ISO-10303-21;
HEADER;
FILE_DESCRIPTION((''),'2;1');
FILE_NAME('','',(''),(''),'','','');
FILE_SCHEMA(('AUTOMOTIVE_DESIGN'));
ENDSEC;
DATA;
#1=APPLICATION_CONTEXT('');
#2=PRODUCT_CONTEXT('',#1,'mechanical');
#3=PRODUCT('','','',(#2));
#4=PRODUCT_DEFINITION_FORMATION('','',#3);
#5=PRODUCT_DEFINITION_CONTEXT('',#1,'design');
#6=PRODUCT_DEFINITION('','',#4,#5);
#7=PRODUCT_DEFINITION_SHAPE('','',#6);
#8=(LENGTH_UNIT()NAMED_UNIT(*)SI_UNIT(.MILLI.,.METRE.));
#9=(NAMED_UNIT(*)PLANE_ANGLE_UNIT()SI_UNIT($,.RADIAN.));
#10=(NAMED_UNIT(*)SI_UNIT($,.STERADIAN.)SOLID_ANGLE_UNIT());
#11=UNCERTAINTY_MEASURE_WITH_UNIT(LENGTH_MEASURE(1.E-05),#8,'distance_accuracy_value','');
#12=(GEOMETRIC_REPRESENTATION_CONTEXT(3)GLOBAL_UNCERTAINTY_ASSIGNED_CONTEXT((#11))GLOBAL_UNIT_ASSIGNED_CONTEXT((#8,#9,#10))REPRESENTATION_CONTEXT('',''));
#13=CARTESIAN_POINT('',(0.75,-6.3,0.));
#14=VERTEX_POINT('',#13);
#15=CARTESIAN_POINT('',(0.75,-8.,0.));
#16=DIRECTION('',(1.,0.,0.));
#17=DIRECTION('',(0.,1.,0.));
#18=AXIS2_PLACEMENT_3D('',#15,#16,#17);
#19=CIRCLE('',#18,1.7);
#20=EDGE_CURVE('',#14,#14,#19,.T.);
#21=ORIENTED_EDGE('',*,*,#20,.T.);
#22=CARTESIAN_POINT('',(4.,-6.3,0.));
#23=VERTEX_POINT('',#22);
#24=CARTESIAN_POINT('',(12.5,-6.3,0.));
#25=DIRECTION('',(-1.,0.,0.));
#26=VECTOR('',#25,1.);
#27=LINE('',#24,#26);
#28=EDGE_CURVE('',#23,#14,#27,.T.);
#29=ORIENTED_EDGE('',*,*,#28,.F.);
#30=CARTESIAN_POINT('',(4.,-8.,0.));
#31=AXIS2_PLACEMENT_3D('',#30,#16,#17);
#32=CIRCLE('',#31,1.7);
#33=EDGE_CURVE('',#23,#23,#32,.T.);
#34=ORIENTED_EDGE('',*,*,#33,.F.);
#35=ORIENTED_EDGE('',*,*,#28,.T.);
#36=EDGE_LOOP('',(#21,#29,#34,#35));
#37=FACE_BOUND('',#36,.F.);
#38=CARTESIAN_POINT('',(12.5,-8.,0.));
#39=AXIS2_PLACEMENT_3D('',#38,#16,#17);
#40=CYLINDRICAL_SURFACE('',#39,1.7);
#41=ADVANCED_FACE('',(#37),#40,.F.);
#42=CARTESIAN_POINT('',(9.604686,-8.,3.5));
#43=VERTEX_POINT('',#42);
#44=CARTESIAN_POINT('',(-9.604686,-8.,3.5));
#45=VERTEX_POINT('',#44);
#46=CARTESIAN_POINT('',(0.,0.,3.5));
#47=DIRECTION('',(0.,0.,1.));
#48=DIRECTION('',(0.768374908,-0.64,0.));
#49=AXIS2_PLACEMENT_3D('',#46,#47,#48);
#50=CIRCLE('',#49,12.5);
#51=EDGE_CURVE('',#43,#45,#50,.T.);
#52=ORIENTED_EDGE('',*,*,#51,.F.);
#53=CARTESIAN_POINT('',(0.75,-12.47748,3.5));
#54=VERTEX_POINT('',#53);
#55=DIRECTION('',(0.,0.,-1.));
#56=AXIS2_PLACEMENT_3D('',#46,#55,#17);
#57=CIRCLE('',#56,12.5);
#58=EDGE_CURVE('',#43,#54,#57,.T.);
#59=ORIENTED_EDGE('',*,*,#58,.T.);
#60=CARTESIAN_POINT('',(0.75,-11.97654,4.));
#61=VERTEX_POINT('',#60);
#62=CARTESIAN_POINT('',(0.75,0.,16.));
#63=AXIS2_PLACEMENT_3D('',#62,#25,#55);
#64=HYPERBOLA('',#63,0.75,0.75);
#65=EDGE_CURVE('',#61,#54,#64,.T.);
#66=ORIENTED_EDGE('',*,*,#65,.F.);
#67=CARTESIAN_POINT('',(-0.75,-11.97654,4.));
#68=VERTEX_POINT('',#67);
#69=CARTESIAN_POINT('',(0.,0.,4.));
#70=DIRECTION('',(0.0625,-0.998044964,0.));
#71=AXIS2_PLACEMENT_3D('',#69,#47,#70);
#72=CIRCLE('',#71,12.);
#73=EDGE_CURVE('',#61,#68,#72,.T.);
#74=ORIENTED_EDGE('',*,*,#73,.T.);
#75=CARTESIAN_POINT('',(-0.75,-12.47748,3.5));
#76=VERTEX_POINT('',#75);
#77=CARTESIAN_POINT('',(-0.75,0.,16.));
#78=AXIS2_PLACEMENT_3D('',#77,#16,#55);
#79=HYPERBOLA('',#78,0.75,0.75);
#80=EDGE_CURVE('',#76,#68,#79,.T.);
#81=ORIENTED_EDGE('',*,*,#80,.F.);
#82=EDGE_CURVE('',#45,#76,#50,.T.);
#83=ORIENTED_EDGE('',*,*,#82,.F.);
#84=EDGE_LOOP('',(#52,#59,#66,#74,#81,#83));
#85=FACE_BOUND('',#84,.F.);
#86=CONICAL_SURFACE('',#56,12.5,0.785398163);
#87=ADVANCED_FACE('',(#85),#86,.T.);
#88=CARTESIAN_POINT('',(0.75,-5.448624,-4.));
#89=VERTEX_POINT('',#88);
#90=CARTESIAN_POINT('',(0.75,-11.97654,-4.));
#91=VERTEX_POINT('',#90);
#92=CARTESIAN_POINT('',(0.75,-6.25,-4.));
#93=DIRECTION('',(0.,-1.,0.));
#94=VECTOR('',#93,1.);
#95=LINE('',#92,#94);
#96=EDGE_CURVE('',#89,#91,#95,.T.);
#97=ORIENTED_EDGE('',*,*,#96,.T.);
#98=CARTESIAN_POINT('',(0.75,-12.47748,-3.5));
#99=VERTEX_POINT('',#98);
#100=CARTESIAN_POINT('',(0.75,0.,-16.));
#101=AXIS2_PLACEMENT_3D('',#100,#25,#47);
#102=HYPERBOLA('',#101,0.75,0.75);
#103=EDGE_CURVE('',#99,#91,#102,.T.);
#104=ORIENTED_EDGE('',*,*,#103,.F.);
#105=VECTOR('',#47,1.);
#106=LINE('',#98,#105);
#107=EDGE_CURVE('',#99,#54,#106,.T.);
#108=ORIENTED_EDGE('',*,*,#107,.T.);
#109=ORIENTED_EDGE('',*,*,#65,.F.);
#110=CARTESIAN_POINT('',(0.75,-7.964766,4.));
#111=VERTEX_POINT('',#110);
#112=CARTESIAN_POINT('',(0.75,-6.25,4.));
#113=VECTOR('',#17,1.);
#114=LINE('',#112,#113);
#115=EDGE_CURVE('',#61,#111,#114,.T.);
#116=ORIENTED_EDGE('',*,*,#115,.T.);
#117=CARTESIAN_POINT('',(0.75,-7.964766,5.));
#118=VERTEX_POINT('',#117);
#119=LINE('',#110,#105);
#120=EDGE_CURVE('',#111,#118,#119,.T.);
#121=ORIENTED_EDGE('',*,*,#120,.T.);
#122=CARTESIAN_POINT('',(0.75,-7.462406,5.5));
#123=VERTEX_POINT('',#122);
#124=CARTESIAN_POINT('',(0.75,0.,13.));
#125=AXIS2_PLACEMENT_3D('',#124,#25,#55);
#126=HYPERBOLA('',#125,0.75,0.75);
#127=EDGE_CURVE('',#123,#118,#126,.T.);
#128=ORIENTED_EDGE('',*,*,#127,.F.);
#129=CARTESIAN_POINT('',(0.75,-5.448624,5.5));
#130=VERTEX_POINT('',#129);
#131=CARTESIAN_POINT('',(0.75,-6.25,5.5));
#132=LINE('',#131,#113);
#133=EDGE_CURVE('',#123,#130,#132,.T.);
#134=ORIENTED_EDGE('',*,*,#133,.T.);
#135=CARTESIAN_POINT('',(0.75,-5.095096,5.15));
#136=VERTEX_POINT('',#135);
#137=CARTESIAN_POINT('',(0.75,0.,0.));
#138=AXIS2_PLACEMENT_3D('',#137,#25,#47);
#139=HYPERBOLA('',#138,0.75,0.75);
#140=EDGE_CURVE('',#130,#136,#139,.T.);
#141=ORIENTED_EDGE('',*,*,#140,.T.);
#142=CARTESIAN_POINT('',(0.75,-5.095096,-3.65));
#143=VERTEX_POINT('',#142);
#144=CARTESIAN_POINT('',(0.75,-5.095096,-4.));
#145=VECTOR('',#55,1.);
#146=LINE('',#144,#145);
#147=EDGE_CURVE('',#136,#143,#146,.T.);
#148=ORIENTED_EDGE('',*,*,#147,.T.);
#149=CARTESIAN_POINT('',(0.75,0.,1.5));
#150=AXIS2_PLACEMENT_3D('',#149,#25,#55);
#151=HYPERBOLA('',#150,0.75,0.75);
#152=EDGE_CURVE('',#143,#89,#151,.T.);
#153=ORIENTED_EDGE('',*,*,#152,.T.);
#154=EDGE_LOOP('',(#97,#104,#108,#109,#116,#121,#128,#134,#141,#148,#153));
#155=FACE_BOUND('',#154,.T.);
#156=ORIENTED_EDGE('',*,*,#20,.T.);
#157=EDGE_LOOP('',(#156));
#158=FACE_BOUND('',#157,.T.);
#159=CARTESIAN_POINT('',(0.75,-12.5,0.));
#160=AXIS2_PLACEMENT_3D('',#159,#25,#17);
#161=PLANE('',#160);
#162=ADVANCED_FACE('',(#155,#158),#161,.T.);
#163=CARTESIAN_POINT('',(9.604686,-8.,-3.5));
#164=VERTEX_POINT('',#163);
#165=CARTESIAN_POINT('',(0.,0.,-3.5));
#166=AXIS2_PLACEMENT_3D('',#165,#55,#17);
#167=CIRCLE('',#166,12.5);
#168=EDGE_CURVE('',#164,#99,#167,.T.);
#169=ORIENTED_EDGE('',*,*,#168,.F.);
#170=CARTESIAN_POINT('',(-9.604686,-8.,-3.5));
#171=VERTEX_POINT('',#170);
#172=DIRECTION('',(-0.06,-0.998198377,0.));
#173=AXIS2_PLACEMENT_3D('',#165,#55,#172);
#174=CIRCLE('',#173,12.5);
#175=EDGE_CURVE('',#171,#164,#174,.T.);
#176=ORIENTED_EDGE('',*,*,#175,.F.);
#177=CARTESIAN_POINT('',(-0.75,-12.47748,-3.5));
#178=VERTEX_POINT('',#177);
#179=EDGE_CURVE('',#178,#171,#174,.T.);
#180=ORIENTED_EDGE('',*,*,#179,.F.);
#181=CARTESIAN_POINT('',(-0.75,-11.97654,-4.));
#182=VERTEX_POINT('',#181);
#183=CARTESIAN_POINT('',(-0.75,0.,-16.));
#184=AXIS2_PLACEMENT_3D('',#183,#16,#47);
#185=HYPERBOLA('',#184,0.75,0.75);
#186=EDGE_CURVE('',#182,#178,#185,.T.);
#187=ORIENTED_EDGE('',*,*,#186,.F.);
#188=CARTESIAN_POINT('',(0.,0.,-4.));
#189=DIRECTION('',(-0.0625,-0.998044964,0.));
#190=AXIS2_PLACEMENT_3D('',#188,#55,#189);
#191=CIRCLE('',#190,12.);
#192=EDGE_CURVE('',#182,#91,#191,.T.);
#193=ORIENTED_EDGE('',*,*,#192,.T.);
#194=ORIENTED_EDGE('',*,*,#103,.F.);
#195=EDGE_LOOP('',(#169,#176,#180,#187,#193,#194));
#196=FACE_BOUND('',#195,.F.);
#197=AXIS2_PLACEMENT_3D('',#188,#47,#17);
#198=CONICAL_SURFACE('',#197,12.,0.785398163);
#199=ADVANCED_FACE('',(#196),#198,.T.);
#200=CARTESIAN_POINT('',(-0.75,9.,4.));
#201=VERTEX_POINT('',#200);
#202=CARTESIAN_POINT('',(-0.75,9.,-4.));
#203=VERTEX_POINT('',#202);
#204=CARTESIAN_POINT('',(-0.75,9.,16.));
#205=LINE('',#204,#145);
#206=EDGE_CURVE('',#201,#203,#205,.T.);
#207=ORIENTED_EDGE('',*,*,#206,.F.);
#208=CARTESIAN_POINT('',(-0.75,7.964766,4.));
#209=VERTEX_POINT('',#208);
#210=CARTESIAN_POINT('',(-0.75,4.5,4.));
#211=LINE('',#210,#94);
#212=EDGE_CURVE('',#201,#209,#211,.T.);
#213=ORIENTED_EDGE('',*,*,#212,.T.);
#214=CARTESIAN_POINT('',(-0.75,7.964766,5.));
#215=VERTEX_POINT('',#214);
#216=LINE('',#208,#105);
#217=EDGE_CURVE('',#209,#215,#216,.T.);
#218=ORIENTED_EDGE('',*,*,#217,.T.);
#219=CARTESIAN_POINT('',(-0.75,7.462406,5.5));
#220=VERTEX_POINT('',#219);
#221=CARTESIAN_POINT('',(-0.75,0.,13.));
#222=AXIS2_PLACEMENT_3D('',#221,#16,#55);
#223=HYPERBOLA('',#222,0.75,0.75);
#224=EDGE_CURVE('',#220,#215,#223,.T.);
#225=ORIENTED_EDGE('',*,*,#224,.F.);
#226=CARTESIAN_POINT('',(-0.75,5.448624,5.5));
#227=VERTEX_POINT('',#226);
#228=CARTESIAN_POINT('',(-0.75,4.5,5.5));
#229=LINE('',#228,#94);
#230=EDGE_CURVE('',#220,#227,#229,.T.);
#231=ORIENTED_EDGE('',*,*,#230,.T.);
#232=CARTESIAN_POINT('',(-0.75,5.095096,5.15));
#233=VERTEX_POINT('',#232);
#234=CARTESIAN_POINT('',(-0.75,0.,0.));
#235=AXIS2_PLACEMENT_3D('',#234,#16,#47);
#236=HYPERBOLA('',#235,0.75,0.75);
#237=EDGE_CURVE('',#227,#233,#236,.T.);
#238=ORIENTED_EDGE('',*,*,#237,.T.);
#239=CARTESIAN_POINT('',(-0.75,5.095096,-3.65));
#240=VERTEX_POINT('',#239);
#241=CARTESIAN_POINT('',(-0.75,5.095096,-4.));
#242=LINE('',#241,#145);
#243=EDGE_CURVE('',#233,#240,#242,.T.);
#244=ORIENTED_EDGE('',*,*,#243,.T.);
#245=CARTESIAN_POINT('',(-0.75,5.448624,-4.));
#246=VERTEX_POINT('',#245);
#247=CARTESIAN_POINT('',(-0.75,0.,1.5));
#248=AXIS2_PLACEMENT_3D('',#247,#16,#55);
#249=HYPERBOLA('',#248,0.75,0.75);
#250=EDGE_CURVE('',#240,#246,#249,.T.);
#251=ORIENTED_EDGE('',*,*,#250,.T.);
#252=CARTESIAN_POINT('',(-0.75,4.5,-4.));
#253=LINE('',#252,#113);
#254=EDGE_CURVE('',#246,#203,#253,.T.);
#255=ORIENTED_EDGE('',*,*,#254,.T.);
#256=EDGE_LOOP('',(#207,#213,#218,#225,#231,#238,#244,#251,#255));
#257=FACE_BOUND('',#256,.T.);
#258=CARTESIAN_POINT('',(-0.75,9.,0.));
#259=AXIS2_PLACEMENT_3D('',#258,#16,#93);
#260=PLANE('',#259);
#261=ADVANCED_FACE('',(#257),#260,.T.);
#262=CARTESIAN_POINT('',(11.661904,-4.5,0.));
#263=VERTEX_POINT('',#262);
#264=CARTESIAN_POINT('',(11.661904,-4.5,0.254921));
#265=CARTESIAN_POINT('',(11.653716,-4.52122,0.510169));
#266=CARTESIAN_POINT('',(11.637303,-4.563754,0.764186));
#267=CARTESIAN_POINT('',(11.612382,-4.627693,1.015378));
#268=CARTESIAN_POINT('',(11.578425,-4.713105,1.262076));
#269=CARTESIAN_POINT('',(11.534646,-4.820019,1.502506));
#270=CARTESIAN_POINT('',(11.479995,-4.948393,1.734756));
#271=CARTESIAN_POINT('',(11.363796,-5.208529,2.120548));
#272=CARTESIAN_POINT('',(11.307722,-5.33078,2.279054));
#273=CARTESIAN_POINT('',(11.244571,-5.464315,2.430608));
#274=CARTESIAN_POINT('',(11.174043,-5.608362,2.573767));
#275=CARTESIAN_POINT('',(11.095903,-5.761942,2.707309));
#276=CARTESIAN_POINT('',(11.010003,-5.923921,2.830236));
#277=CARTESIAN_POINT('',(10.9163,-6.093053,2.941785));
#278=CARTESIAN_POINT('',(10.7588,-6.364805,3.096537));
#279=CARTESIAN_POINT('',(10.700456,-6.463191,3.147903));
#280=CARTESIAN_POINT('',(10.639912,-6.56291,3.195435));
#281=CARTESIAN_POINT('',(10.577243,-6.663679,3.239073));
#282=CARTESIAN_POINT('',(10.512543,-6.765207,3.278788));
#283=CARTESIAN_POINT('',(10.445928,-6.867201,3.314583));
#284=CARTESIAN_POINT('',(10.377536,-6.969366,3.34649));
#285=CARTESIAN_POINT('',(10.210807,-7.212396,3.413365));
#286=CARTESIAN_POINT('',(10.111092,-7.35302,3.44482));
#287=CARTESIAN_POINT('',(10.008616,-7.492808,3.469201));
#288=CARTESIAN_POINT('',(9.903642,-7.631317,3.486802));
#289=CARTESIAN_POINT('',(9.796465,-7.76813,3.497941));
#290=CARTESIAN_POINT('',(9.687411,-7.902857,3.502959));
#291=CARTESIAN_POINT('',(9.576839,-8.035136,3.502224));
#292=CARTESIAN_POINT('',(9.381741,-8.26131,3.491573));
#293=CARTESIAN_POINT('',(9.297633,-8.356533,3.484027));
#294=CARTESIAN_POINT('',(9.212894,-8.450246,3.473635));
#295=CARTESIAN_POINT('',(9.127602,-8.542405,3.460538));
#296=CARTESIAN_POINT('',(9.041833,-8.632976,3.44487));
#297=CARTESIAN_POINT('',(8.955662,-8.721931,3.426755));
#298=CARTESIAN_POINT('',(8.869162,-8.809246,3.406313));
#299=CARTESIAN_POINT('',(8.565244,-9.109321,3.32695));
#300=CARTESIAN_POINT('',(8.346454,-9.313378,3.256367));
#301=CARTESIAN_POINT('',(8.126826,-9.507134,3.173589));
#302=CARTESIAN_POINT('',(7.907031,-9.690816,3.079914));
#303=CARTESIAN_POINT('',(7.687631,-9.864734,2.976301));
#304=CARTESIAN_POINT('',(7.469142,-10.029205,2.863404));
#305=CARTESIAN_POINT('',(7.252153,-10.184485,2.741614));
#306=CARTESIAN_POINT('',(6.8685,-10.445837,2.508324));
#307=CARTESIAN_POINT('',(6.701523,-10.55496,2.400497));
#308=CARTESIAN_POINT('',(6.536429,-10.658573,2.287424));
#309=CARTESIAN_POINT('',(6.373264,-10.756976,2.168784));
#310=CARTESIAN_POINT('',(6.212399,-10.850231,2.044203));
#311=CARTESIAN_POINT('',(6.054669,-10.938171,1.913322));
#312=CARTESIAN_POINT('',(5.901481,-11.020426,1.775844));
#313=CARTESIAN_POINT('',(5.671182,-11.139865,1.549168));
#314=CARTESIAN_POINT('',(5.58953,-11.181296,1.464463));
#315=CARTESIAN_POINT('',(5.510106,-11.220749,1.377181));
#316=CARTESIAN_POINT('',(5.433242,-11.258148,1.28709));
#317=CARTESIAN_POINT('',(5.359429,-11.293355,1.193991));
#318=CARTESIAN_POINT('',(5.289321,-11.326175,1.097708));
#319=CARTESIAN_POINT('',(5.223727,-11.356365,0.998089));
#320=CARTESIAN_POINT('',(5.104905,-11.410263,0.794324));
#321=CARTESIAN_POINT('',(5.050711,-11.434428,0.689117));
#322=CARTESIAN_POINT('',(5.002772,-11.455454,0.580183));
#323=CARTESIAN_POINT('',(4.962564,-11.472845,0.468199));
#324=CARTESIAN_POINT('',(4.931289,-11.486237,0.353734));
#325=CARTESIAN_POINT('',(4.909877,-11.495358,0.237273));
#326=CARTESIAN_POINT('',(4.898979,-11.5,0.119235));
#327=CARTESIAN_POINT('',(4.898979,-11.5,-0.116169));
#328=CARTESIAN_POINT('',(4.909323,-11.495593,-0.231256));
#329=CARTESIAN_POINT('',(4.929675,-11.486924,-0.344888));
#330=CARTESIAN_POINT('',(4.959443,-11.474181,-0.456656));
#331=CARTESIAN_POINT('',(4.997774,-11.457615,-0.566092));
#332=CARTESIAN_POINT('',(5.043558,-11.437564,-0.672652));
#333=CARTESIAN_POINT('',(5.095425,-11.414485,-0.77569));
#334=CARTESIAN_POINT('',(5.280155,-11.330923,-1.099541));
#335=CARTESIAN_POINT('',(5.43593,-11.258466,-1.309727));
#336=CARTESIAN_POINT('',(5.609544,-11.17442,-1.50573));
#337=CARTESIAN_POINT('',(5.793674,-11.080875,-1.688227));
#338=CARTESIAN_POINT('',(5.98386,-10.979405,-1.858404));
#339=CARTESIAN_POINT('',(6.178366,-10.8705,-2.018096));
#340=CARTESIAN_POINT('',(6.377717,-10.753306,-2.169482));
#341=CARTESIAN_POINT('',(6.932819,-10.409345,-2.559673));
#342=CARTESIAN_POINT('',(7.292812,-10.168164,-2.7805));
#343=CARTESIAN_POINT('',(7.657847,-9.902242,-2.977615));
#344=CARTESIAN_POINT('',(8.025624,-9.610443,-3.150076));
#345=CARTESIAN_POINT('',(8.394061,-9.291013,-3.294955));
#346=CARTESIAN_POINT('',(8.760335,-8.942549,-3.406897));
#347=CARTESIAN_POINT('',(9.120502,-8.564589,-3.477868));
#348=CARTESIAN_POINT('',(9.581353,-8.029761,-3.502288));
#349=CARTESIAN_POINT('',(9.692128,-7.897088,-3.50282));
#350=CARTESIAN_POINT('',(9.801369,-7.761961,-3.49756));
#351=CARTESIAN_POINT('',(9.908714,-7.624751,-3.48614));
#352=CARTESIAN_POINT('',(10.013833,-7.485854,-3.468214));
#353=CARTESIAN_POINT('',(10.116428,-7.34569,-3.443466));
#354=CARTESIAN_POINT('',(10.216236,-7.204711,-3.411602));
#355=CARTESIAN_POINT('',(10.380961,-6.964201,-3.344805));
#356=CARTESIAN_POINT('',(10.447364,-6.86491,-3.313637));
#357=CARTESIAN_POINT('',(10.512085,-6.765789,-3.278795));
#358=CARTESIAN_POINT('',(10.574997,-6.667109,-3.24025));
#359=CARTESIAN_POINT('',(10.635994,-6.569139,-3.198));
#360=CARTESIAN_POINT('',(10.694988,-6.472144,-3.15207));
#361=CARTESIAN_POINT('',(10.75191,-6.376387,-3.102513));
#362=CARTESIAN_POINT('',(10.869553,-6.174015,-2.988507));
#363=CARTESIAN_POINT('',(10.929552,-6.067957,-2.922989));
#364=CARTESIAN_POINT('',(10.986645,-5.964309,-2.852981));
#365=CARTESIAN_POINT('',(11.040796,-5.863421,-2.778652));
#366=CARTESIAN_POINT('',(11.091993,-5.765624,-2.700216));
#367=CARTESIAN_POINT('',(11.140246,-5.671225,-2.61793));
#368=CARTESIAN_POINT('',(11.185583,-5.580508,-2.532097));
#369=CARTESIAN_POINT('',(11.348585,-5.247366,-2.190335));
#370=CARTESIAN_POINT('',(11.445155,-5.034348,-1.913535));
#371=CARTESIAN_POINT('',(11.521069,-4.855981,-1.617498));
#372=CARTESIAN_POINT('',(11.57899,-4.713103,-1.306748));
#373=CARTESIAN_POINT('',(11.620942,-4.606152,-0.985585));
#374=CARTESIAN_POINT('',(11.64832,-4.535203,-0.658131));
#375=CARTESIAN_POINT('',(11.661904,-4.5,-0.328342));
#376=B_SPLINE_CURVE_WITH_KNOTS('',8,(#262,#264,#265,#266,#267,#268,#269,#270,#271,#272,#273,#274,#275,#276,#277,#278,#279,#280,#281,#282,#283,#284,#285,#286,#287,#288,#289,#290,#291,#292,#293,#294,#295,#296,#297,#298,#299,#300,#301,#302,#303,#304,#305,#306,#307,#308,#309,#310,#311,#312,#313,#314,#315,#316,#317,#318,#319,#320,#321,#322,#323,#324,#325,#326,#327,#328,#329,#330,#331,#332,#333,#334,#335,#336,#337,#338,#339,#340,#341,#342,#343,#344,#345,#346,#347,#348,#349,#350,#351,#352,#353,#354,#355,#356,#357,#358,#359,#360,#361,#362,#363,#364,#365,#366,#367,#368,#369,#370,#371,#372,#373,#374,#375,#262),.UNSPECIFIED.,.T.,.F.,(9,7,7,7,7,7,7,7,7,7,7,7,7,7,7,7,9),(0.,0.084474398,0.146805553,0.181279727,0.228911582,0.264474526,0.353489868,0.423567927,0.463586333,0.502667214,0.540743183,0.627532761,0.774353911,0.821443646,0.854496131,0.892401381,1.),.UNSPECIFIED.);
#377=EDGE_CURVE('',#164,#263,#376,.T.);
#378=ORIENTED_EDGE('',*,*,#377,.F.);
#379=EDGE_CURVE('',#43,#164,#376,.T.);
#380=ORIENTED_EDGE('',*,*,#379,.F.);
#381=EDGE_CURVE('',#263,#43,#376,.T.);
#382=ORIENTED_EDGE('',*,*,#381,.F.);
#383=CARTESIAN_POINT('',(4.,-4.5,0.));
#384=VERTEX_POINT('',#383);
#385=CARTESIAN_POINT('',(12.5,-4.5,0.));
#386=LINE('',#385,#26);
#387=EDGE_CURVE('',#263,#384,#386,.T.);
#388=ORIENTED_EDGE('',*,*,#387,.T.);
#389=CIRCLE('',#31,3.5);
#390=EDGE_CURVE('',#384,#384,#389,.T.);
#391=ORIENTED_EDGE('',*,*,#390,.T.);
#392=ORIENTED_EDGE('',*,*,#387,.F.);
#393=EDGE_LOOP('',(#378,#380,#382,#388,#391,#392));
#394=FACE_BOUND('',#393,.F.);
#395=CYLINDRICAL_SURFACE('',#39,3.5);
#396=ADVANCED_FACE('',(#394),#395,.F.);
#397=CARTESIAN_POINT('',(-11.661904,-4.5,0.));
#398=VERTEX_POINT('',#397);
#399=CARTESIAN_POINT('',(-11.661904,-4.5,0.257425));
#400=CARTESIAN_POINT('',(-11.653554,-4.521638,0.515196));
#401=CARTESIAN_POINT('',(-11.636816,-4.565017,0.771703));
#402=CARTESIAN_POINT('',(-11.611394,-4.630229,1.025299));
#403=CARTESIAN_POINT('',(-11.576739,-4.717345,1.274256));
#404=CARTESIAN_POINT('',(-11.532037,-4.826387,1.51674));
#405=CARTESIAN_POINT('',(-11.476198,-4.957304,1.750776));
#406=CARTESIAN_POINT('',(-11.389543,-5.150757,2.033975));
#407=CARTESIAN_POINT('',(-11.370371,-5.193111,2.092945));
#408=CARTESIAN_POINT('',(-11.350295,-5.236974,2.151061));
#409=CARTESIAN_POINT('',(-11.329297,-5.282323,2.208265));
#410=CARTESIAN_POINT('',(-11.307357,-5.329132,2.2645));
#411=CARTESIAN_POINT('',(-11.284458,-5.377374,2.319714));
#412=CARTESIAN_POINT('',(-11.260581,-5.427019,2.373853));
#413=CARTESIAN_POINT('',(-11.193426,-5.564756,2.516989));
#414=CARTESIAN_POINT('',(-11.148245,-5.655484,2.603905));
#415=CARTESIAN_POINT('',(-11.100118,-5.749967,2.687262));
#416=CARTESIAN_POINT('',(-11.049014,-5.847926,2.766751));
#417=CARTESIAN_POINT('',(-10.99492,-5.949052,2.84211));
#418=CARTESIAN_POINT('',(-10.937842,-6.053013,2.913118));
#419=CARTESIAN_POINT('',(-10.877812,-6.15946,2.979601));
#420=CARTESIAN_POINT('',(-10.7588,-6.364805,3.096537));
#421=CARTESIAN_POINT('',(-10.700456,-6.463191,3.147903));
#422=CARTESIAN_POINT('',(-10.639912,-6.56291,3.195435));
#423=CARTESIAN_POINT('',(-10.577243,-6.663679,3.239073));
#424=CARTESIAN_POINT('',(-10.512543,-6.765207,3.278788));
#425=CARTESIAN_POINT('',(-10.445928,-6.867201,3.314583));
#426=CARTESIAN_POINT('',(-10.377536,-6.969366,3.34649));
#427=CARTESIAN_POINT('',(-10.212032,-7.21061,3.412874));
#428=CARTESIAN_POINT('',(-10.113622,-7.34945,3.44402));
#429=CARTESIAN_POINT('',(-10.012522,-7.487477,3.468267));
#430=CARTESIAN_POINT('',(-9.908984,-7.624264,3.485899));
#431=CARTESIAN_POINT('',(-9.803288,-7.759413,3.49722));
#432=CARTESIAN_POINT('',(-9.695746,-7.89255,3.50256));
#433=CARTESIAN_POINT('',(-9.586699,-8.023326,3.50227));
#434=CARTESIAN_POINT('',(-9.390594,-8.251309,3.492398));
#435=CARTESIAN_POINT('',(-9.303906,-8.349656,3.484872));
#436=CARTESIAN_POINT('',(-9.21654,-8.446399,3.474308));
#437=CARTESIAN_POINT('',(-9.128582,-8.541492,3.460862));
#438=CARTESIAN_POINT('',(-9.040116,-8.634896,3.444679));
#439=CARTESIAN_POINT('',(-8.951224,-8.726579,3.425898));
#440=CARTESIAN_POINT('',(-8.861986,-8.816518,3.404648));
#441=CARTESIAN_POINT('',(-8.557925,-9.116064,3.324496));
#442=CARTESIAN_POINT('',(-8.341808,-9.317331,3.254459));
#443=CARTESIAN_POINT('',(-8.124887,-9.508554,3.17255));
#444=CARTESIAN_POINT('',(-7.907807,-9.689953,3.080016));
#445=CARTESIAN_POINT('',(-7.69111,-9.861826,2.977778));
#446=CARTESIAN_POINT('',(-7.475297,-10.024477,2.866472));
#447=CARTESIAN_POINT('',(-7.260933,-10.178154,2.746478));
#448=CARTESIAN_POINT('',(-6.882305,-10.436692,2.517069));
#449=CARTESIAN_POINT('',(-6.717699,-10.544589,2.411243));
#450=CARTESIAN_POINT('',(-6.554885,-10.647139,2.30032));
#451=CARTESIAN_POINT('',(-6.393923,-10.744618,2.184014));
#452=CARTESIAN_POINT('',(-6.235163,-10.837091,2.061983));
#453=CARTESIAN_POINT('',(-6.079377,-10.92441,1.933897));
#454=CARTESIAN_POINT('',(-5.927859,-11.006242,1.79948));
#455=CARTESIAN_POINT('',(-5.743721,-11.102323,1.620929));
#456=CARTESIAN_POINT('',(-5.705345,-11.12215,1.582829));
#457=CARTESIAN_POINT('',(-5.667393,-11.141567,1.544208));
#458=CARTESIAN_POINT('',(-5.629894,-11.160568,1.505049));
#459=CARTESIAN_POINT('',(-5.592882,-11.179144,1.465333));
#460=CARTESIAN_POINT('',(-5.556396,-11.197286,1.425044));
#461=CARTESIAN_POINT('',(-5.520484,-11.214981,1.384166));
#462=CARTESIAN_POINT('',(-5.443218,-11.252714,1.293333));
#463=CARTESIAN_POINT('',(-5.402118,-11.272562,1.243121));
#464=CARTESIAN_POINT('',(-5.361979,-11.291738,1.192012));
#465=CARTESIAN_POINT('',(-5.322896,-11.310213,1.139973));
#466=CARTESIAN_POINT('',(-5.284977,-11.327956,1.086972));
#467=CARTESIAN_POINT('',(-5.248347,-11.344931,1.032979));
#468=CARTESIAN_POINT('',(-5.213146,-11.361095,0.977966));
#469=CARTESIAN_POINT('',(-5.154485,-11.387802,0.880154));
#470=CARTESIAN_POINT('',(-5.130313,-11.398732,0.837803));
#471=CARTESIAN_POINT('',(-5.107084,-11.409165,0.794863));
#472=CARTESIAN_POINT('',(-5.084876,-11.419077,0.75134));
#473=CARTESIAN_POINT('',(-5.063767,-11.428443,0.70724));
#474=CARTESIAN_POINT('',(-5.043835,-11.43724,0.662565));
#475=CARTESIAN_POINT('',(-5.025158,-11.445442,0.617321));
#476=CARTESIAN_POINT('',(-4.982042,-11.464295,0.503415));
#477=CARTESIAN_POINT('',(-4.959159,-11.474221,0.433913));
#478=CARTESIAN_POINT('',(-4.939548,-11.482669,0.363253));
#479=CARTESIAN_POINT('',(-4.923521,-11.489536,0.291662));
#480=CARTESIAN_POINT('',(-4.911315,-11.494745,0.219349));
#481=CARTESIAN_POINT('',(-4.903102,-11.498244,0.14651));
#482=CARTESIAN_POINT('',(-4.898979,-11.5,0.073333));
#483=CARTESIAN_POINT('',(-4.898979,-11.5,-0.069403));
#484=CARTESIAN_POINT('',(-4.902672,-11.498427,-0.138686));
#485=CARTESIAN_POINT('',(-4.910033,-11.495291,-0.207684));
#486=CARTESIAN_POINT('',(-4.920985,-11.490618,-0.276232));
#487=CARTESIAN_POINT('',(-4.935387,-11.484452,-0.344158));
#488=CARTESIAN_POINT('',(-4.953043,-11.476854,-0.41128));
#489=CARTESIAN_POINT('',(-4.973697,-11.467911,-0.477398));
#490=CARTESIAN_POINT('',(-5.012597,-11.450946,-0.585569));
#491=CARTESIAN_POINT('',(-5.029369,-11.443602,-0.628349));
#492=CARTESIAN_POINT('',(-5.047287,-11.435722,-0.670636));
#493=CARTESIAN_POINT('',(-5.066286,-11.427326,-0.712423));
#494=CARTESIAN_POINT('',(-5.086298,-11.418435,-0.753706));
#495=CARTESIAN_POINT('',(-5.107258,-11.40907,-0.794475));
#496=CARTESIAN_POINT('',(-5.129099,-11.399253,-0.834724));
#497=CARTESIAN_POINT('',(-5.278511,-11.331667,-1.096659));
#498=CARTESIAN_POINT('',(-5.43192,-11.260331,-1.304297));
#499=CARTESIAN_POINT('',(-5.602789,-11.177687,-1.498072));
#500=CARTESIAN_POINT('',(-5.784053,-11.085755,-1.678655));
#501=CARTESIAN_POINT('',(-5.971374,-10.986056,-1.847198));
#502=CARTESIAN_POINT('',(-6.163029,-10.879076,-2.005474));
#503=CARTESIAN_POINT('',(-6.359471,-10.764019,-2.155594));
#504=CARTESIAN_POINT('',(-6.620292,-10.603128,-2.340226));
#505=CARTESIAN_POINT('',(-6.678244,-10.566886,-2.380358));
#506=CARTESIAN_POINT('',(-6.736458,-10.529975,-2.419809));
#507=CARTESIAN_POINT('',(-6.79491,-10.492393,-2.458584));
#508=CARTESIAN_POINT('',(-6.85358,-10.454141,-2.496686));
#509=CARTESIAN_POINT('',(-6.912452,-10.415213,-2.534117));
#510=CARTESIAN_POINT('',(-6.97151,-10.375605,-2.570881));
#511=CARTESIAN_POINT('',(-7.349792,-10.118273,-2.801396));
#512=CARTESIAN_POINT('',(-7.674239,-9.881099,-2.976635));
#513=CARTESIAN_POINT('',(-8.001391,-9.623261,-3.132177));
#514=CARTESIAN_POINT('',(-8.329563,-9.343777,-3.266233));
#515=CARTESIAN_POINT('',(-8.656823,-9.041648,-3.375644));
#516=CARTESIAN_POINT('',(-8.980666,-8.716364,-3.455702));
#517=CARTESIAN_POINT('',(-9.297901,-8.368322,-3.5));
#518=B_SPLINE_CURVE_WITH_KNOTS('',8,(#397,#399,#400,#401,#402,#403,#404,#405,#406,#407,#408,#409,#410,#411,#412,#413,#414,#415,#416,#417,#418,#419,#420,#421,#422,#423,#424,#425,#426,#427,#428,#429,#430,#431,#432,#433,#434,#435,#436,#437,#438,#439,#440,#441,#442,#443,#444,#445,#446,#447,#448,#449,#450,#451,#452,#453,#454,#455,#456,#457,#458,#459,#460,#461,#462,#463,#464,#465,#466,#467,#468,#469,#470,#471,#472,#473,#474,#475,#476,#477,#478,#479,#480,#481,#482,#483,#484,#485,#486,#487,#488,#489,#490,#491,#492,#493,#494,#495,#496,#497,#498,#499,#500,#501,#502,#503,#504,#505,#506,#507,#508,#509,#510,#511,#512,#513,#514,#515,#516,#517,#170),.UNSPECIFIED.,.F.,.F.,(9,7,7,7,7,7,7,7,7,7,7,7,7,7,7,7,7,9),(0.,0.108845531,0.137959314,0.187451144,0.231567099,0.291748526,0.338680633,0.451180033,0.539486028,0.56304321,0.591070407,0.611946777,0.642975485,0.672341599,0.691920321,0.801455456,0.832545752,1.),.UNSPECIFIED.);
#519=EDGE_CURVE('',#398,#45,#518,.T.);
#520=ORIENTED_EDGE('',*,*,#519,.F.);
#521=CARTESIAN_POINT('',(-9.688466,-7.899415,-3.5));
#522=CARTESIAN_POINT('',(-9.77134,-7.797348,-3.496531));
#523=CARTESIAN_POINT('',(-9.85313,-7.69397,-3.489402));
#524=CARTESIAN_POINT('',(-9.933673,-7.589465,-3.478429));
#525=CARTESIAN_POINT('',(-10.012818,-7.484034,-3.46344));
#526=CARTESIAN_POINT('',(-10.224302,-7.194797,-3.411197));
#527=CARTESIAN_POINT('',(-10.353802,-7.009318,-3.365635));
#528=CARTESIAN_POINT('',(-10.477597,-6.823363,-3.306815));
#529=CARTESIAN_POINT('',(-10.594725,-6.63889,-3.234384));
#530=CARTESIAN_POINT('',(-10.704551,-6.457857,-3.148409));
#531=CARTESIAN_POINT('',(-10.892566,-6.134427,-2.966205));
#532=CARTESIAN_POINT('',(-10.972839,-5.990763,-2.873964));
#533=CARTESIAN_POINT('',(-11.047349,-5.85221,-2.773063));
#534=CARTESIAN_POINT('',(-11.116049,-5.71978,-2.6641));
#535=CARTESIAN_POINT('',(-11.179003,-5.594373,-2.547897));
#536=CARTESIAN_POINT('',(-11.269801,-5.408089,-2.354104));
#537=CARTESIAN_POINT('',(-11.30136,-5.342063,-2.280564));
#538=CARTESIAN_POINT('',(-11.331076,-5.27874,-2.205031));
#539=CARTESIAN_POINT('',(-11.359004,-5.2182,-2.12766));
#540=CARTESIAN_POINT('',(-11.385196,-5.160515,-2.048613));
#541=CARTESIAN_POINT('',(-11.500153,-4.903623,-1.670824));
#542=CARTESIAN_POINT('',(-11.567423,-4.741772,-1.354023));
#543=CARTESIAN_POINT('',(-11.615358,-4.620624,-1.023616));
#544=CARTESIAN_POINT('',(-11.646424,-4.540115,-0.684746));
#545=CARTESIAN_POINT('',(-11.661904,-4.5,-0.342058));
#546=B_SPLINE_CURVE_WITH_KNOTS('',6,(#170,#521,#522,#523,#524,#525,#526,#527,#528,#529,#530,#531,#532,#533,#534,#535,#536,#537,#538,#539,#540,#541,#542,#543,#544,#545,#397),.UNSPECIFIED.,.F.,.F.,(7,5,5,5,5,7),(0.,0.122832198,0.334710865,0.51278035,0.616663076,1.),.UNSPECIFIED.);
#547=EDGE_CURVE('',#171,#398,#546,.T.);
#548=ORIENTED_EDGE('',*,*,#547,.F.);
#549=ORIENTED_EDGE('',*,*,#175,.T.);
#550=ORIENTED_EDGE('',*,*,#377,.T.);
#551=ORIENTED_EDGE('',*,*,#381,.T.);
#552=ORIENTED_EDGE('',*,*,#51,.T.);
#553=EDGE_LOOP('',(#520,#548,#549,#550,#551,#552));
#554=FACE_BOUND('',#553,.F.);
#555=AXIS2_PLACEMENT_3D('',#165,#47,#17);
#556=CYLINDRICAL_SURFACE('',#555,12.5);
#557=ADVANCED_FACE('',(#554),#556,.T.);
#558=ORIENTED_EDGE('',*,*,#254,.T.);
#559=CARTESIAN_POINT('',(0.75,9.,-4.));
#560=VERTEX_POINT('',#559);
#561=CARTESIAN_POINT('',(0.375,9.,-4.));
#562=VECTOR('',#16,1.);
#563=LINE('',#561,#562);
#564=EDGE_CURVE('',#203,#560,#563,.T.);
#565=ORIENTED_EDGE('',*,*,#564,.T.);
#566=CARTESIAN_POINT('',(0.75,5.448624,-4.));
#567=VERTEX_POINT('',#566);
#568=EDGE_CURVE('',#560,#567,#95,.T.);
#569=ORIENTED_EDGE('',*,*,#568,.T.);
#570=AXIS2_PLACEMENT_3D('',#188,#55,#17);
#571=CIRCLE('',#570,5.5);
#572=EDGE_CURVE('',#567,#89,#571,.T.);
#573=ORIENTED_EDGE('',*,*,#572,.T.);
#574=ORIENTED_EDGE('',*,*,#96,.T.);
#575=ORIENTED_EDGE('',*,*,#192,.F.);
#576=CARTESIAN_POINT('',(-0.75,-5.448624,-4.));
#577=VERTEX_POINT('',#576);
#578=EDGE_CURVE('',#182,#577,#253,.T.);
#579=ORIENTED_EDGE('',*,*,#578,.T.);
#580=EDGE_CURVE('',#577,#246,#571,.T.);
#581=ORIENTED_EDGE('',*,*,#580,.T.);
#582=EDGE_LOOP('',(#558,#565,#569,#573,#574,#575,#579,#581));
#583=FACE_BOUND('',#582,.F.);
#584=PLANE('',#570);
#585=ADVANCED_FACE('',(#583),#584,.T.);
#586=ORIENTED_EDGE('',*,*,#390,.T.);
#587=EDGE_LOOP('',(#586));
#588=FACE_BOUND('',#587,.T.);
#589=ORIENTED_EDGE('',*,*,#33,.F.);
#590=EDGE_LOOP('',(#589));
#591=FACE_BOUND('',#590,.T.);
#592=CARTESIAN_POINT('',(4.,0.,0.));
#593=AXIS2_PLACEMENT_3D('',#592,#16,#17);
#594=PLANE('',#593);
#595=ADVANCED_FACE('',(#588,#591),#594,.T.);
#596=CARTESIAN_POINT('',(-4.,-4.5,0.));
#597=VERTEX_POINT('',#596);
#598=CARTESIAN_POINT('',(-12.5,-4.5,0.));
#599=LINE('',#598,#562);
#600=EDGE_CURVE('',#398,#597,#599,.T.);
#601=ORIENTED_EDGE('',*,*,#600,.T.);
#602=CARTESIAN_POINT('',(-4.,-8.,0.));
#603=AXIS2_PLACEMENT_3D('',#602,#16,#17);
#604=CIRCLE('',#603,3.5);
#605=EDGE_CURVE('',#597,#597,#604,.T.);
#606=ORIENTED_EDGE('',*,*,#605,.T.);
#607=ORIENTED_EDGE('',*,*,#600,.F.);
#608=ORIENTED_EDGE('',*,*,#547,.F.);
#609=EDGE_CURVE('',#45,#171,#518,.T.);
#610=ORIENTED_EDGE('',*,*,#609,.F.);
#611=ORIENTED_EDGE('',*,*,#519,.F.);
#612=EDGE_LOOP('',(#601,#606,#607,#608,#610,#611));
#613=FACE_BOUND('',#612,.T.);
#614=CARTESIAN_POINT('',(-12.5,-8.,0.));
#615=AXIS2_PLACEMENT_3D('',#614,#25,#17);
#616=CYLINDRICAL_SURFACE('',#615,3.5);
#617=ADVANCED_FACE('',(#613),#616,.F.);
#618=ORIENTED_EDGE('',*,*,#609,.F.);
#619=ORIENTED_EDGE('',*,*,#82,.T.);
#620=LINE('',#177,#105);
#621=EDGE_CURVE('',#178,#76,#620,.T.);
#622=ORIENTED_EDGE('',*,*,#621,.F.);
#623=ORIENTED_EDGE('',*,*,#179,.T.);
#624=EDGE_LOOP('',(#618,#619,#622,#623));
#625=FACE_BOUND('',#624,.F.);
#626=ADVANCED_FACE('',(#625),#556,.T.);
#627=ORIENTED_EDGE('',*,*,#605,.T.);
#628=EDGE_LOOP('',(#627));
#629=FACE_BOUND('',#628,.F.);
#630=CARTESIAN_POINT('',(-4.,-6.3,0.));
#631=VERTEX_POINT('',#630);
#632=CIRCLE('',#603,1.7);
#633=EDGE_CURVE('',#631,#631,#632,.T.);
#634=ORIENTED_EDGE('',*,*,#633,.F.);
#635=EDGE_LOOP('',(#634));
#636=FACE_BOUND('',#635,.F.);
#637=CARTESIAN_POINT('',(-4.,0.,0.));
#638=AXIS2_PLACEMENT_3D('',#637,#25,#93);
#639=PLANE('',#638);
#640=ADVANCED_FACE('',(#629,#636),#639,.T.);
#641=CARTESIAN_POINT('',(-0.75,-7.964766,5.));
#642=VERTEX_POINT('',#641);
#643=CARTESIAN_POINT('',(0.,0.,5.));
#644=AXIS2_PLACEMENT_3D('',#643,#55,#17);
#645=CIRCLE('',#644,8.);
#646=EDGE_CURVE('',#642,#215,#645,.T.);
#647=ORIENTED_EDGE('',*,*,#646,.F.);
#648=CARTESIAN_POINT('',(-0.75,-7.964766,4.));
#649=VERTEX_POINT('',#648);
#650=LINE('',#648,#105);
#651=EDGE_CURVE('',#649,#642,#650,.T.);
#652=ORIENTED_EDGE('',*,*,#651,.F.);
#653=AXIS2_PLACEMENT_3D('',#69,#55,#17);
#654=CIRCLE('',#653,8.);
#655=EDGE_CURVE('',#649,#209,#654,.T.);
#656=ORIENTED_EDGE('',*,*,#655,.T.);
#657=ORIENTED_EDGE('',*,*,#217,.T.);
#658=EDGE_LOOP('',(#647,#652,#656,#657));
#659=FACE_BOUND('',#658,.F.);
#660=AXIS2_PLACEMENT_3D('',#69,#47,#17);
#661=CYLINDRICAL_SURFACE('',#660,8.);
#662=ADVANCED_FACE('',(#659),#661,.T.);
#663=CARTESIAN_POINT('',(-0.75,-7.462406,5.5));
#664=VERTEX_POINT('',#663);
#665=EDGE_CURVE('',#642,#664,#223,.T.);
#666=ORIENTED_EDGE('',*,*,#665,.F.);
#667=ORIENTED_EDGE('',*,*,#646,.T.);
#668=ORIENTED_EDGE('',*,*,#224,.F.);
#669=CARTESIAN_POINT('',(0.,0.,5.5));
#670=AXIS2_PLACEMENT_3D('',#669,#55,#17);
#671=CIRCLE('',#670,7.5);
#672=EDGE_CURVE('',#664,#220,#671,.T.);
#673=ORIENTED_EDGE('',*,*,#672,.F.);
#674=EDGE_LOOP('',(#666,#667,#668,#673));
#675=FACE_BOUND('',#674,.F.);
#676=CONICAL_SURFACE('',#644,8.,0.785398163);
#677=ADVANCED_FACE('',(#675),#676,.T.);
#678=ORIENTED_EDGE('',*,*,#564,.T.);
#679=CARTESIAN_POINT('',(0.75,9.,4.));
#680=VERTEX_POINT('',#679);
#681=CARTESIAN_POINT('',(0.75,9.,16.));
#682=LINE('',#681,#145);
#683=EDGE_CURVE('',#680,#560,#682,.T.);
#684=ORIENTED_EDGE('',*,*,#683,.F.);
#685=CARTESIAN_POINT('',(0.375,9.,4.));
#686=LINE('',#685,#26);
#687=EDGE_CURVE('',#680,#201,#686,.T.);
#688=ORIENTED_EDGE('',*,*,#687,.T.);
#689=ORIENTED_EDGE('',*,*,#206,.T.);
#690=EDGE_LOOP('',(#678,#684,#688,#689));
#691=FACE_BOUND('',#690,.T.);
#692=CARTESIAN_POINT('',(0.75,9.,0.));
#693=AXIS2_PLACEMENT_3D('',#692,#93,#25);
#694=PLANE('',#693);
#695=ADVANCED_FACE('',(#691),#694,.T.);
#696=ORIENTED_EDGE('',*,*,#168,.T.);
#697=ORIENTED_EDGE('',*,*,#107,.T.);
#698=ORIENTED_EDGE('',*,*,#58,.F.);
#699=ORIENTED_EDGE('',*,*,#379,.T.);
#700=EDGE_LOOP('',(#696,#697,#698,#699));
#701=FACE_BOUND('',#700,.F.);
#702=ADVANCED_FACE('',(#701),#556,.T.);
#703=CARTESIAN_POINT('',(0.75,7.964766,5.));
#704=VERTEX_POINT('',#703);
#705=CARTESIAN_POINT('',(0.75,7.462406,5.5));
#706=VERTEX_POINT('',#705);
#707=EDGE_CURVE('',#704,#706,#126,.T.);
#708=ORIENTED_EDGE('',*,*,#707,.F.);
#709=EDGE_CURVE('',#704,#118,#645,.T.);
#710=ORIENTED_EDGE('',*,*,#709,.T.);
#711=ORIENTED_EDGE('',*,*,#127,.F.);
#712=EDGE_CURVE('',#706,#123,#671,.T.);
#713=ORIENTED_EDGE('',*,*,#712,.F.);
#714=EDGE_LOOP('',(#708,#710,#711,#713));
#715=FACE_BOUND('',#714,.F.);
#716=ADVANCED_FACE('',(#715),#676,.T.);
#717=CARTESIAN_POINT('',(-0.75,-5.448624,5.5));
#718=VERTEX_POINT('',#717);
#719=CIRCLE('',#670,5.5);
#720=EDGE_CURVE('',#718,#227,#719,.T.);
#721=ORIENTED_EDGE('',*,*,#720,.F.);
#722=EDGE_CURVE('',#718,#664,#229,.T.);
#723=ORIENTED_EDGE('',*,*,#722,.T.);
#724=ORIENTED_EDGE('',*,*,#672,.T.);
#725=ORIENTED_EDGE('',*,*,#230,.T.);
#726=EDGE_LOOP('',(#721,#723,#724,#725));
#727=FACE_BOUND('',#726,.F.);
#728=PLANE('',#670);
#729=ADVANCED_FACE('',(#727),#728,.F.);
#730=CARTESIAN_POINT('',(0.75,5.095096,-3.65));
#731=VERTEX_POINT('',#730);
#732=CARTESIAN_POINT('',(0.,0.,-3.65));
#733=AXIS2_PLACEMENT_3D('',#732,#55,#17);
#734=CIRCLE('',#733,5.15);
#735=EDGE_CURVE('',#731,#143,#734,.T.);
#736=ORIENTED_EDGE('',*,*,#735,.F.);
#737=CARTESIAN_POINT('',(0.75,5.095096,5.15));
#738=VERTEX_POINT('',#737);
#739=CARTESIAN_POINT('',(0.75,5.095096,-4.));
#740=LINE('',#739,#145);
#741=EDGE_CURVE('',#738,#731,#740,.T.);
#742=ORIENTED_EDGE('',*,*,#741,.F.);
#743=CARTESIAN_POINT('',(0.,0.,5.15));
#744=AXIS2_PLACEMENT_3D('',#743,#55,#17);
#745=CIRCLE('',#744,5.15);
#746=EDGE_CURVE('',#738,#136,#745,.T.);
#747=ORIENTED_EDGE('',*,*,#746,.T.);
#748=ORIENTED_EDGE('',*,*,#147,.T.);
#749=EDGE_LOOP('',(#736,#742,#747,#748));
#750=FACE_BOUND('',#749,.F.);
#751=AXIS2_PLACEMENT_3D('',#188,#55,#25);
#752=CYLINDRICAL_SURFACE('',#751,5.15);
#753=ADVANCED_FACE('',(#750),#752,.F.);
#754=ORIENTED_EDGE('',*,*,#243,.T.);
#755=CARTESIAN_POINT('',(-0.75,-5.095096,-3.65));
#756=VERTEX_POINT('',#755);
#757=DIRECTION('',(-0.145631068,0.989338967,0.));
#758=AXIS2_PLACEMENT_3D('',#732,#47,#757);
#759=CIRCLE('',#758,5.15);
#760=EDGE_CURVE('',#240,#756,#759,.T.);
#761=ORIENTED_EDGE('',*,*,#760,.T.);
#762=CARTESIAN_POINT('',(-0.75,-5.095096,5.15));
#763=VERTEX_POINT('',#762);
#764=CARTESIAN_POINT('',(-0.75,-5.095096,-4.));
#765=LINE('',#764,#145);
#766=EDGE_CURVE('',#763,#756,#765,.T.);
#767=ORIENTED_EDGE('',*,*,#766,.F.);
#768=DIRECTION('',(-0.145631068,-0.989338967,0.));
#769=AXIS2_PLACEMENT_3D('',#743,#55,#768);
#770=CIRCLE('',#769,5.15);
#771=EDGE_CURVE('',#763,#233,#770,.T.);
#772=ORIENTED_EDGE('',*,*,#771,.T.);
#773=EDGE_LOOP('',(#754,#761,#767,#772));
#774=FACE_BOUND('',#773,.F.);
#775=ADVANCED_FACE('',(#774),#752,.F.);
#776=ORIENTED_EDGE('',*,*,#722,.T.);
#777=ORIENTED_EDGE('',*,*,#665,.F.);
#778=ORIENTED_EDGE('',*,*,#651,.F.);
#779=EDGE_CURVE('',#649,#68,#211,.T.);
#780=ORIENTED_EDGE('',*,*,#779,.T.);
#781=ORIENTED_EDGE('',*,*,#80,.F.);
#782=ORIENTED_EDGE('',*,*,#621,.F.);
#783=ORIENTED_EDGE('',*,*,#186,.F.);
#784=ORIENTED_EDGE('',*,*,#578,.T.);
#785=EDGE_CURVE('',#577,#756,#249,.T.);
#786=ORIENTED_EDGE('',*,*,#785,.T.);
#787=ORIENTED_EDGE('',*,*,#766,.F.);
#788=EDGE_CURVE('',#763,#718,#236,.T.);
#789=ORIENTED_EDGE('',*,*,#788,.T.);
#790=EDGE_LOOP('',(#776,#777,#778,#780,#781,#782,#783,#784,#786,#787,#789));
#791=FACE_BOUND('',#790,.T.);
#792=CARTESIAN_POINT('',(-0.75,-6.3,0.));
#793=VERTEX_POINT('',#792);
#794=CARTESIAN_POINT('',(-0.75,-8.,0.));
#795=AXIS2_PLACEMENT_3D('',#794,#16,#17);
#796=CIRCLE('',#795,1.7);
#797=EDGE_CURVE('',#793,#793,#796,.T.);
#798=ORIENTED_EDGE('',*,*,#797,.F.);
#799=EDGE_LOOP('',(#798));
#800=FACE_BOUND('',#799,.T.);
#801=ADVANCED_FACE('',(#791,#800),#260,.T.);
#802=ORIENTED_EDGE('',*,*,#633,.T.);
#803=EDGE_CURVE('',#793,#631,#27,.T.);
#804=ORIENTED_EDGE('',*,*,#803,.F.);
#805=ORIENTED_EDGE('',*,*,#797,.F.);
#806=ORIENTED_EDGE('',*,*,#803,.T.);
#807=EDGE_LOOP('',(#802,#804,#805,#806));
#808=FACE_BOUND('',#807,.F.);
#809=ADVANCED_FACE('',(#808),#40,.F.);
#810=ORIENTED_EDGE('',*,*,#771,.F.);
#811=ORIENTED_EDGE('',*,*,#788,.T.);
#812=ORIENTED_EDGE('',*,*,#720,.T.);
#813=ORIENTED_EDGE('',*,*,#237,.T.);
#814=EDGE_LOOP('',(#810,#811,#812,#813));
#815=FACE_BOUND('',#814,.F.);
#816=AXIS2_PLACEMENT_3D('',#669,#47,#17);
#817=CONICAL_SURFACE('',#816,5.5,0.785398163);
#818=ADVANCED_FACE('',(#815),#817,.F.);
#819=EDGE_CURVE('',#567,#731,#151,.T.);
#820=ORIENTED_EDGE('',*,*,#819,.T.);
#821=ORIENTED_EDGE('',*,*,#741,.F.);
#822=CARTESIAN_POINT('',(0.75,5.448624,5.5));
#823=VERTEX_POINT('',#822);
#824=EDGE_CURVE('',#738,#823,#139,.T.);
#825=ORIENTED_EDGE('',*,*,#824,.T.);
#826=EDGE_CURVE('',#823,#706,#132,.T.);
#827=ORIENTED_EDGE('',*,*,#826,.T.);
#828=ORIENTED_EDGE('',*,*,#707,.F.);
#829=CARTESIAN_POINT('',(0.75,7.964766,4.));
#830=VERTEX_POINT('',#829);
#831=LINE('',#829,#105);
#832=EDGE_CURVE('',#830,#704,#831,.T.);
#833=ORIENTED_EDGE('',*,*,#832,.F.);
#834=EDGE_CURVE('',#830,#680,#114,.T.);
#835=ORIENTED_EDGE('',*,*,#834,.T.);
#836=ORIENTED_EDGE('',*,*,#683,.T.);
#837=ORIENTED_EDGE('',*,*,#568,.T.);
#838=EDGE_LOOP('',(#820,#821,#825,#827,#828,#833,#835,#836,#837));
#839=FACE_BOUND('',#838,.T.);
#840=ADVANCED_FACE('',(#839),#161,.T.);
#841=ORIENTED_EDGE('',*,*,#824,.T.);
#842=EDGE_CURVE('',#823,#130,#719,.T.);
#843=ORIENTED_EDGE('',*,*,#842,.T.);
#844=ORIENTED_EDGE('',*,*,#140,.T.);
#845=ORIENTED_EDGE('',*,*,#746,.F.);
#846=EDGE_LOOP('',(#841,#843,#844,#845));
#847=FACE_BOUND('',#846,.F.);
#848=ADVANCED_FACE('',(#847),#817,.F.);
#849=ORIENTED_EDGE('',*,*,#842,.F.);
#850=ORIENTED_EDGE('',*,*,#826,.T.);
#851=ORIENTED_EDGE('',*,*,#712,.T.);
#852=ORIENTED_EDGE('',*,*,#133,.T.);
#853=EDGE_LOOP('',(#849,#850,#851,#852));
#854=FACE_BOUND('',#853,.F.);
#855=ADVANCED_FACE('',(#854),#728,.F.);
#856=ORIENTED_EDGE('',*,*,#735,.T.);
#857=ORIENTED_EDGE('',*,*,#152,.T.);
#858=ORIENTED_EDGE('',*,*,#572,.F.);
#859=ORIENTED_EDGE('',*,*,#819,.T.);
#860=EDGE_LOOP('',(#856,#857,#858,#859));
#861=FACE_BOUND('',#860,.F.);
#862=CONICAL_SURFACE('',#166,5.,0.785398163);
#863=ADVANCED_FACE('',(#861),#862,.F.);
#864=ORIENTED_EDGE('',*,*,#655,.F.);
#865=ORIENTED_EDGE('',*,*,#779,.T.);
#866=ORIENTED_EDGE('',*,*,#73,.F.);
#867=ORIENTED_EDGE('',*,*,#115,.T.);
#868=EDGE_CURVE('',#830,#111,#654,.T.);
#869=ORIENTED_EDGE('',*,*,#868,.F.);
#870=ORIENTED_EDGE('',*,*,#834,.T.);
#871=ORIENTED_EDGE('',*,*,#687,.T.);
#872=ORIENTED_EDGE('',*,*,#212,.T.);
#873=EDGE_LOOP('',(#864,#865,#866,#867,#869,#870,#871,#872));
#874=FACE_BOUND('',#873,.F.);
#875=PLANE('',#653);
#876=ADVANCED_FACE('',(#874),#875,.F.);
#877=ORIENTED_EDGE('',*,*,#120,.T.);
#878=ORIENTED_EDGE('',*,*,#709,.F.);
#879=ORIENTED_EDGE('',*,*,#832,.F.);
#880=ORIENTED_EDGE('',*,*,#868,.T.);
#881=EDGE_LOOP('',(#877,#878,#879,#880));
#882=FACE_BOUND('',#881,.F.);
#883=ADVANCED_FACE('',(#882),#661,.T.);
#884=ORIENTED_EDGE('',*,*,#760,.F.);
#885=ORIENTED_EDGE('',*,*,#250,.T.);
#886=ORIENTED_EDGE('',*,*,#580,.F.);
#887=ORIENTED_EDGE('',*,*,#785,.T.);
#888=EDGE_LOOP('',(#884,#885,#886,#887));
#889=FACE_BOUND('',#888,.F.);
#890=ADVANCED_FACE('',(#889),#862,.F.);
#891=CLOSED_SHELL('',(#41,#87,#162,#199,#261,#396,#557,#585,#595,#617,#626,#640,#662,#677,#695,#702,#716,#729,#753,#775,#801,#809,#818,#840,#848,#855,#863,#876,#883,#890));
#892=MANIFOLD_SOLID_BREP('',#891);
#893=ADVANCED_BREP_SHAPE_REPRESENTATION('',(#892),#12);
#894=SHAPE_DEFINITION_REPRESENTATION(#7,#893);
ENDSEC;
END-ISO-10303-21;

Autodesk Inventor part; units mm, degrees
sketch "Sketch_1" plane through (0, 0, 0) normal (1, 0, 0) x (0, 1, 0)
  line L0 (0, -4) -> (0, 5.5)
  line L1 (7.5, 5.5) -> (5.5, 5.5)
  line L2 (5.5, 5.5) -> (5, 5)
  line L3 (5, 5) -> (5, -3.5)
  line L4 (5, -3.5) -> (5.5, -4)
  line L5 (5.5, -4) -> (12, -4)
  line L6 (12, -4) -> (12.5, -3.5)
  line L7 (12.5, -3.5) -> (12.5, 3.5)
  line L8 (12.5, 3.5) -> (12, 4)
  line L9 (12, 4) -> (8, 4)
  line L10 (8, 4) -> (8, 5)
  line L11 (8, 5) -> (7.5, 5.5)
revolve "Revolution1" add sketch "Sketch_1" angle 360 about axis through (0, 0, -4) along (0, 0, -1)
sketch "Sketch_2" plane through (0, 0, 0) normal (0, 0, 1) x (1, 0, 0)
  line L0 (-0.75, -12.5) -> (0.75, -12.5)
  line L1 (0.75, -12.5) -> (0.75, 9)
  line L2 (0.75, 9) -> (-0.75, 9)
  line L3 (-0.75, 9) -> (-0.75, -12.5)
extrude "Extrusion1" cut sketch "Sketch_2" along normal mid plane 32
sketch "Sketch_3" plane through (0, 0, 0) normal (0, 0, 1) x (1, 0, 0)
  line L0 (0, -8) -> (12.5, -8)
  line L1 (12.5, -8) -> (12.5, -11)
  line L2 (12.5, -11) -> (4, -11)
  line L3 (4, -11) -> (4, -9.75)
  line L4 (4, -9.75) -> (0, -9.75)
  line L5 (0, -9.75) -> (0, -8)
  line L6 (0, -8) -> (12.5, -8)
ref_plane "body_screw_XY" through (4, -8, 0) normal (1, 0, 0) x (0, 0, -1)
ref_plane "body_screw_YZ" through (4, -8, 0) normal (0, 0, -1) x (0, 1, 0)
ref_plane "body_screw_ZX" through (4, -8, 0) normal (0, 1, 0) x (1, 0, 0)
ref_plane "作業平面5" through (4, -8, 0) normal (1, 0, 0) x (0, 0, -1)
sketch "スケッチ5" plane through (4, -8, 0) normal (1, 0, 0) x (0, 0, -1)
  point P0 (0, 8)
ref_plane "作業平面6" through (4, -8, 0) normal (1, 0, 0) x (0, 0, -1)
sketch "スケッチ6" plane through (4, -8, 0) normal (1, 0, 0) x (0, 0, -1)
  point P0 (0, 8)
sketch "スケッチ7" plane through (0, 0, -4) normal (0, 0, -1) x (-1, 0, 0)
  circle A0 centre (0, 0) radius 5.15
  dimension "d12" = 10.3
extrude "押し出し2" cut sketch "スケッチ7" against normal blind 10
ref_plane "作業平面4" through (12.5, 0, 0) normal (1, 0, 0) x (0, 1, 0)
sketch "スケッチ8" plane through (12.5, 0, 0) normal (1, 0, 0) x (0, 1, 0)
  circle A0 centre (-8, 0) radius 1.75 projected
  circle A1 centre (-8, 0) radius 1.7
  circle A2 centre (-8, 0) radius 3.5
  point P0 (0, 0)
  dimension "d15" = 3.4
  dimension "d16" = 7
extrude "押し出し3" cut sketch "スケッチ8" against normal through all contours A1
extrude "押し出し4" cut sketch "スケッチ8" against normal blind 8.5 contours A0 | A1 | A2
mirror "ミラー1" about plane through (0, 0, 0) normal (1, 0, 0) of "押し出し4"
properties part number "SCBNJ10-16b" material "ABS プラスチック"
